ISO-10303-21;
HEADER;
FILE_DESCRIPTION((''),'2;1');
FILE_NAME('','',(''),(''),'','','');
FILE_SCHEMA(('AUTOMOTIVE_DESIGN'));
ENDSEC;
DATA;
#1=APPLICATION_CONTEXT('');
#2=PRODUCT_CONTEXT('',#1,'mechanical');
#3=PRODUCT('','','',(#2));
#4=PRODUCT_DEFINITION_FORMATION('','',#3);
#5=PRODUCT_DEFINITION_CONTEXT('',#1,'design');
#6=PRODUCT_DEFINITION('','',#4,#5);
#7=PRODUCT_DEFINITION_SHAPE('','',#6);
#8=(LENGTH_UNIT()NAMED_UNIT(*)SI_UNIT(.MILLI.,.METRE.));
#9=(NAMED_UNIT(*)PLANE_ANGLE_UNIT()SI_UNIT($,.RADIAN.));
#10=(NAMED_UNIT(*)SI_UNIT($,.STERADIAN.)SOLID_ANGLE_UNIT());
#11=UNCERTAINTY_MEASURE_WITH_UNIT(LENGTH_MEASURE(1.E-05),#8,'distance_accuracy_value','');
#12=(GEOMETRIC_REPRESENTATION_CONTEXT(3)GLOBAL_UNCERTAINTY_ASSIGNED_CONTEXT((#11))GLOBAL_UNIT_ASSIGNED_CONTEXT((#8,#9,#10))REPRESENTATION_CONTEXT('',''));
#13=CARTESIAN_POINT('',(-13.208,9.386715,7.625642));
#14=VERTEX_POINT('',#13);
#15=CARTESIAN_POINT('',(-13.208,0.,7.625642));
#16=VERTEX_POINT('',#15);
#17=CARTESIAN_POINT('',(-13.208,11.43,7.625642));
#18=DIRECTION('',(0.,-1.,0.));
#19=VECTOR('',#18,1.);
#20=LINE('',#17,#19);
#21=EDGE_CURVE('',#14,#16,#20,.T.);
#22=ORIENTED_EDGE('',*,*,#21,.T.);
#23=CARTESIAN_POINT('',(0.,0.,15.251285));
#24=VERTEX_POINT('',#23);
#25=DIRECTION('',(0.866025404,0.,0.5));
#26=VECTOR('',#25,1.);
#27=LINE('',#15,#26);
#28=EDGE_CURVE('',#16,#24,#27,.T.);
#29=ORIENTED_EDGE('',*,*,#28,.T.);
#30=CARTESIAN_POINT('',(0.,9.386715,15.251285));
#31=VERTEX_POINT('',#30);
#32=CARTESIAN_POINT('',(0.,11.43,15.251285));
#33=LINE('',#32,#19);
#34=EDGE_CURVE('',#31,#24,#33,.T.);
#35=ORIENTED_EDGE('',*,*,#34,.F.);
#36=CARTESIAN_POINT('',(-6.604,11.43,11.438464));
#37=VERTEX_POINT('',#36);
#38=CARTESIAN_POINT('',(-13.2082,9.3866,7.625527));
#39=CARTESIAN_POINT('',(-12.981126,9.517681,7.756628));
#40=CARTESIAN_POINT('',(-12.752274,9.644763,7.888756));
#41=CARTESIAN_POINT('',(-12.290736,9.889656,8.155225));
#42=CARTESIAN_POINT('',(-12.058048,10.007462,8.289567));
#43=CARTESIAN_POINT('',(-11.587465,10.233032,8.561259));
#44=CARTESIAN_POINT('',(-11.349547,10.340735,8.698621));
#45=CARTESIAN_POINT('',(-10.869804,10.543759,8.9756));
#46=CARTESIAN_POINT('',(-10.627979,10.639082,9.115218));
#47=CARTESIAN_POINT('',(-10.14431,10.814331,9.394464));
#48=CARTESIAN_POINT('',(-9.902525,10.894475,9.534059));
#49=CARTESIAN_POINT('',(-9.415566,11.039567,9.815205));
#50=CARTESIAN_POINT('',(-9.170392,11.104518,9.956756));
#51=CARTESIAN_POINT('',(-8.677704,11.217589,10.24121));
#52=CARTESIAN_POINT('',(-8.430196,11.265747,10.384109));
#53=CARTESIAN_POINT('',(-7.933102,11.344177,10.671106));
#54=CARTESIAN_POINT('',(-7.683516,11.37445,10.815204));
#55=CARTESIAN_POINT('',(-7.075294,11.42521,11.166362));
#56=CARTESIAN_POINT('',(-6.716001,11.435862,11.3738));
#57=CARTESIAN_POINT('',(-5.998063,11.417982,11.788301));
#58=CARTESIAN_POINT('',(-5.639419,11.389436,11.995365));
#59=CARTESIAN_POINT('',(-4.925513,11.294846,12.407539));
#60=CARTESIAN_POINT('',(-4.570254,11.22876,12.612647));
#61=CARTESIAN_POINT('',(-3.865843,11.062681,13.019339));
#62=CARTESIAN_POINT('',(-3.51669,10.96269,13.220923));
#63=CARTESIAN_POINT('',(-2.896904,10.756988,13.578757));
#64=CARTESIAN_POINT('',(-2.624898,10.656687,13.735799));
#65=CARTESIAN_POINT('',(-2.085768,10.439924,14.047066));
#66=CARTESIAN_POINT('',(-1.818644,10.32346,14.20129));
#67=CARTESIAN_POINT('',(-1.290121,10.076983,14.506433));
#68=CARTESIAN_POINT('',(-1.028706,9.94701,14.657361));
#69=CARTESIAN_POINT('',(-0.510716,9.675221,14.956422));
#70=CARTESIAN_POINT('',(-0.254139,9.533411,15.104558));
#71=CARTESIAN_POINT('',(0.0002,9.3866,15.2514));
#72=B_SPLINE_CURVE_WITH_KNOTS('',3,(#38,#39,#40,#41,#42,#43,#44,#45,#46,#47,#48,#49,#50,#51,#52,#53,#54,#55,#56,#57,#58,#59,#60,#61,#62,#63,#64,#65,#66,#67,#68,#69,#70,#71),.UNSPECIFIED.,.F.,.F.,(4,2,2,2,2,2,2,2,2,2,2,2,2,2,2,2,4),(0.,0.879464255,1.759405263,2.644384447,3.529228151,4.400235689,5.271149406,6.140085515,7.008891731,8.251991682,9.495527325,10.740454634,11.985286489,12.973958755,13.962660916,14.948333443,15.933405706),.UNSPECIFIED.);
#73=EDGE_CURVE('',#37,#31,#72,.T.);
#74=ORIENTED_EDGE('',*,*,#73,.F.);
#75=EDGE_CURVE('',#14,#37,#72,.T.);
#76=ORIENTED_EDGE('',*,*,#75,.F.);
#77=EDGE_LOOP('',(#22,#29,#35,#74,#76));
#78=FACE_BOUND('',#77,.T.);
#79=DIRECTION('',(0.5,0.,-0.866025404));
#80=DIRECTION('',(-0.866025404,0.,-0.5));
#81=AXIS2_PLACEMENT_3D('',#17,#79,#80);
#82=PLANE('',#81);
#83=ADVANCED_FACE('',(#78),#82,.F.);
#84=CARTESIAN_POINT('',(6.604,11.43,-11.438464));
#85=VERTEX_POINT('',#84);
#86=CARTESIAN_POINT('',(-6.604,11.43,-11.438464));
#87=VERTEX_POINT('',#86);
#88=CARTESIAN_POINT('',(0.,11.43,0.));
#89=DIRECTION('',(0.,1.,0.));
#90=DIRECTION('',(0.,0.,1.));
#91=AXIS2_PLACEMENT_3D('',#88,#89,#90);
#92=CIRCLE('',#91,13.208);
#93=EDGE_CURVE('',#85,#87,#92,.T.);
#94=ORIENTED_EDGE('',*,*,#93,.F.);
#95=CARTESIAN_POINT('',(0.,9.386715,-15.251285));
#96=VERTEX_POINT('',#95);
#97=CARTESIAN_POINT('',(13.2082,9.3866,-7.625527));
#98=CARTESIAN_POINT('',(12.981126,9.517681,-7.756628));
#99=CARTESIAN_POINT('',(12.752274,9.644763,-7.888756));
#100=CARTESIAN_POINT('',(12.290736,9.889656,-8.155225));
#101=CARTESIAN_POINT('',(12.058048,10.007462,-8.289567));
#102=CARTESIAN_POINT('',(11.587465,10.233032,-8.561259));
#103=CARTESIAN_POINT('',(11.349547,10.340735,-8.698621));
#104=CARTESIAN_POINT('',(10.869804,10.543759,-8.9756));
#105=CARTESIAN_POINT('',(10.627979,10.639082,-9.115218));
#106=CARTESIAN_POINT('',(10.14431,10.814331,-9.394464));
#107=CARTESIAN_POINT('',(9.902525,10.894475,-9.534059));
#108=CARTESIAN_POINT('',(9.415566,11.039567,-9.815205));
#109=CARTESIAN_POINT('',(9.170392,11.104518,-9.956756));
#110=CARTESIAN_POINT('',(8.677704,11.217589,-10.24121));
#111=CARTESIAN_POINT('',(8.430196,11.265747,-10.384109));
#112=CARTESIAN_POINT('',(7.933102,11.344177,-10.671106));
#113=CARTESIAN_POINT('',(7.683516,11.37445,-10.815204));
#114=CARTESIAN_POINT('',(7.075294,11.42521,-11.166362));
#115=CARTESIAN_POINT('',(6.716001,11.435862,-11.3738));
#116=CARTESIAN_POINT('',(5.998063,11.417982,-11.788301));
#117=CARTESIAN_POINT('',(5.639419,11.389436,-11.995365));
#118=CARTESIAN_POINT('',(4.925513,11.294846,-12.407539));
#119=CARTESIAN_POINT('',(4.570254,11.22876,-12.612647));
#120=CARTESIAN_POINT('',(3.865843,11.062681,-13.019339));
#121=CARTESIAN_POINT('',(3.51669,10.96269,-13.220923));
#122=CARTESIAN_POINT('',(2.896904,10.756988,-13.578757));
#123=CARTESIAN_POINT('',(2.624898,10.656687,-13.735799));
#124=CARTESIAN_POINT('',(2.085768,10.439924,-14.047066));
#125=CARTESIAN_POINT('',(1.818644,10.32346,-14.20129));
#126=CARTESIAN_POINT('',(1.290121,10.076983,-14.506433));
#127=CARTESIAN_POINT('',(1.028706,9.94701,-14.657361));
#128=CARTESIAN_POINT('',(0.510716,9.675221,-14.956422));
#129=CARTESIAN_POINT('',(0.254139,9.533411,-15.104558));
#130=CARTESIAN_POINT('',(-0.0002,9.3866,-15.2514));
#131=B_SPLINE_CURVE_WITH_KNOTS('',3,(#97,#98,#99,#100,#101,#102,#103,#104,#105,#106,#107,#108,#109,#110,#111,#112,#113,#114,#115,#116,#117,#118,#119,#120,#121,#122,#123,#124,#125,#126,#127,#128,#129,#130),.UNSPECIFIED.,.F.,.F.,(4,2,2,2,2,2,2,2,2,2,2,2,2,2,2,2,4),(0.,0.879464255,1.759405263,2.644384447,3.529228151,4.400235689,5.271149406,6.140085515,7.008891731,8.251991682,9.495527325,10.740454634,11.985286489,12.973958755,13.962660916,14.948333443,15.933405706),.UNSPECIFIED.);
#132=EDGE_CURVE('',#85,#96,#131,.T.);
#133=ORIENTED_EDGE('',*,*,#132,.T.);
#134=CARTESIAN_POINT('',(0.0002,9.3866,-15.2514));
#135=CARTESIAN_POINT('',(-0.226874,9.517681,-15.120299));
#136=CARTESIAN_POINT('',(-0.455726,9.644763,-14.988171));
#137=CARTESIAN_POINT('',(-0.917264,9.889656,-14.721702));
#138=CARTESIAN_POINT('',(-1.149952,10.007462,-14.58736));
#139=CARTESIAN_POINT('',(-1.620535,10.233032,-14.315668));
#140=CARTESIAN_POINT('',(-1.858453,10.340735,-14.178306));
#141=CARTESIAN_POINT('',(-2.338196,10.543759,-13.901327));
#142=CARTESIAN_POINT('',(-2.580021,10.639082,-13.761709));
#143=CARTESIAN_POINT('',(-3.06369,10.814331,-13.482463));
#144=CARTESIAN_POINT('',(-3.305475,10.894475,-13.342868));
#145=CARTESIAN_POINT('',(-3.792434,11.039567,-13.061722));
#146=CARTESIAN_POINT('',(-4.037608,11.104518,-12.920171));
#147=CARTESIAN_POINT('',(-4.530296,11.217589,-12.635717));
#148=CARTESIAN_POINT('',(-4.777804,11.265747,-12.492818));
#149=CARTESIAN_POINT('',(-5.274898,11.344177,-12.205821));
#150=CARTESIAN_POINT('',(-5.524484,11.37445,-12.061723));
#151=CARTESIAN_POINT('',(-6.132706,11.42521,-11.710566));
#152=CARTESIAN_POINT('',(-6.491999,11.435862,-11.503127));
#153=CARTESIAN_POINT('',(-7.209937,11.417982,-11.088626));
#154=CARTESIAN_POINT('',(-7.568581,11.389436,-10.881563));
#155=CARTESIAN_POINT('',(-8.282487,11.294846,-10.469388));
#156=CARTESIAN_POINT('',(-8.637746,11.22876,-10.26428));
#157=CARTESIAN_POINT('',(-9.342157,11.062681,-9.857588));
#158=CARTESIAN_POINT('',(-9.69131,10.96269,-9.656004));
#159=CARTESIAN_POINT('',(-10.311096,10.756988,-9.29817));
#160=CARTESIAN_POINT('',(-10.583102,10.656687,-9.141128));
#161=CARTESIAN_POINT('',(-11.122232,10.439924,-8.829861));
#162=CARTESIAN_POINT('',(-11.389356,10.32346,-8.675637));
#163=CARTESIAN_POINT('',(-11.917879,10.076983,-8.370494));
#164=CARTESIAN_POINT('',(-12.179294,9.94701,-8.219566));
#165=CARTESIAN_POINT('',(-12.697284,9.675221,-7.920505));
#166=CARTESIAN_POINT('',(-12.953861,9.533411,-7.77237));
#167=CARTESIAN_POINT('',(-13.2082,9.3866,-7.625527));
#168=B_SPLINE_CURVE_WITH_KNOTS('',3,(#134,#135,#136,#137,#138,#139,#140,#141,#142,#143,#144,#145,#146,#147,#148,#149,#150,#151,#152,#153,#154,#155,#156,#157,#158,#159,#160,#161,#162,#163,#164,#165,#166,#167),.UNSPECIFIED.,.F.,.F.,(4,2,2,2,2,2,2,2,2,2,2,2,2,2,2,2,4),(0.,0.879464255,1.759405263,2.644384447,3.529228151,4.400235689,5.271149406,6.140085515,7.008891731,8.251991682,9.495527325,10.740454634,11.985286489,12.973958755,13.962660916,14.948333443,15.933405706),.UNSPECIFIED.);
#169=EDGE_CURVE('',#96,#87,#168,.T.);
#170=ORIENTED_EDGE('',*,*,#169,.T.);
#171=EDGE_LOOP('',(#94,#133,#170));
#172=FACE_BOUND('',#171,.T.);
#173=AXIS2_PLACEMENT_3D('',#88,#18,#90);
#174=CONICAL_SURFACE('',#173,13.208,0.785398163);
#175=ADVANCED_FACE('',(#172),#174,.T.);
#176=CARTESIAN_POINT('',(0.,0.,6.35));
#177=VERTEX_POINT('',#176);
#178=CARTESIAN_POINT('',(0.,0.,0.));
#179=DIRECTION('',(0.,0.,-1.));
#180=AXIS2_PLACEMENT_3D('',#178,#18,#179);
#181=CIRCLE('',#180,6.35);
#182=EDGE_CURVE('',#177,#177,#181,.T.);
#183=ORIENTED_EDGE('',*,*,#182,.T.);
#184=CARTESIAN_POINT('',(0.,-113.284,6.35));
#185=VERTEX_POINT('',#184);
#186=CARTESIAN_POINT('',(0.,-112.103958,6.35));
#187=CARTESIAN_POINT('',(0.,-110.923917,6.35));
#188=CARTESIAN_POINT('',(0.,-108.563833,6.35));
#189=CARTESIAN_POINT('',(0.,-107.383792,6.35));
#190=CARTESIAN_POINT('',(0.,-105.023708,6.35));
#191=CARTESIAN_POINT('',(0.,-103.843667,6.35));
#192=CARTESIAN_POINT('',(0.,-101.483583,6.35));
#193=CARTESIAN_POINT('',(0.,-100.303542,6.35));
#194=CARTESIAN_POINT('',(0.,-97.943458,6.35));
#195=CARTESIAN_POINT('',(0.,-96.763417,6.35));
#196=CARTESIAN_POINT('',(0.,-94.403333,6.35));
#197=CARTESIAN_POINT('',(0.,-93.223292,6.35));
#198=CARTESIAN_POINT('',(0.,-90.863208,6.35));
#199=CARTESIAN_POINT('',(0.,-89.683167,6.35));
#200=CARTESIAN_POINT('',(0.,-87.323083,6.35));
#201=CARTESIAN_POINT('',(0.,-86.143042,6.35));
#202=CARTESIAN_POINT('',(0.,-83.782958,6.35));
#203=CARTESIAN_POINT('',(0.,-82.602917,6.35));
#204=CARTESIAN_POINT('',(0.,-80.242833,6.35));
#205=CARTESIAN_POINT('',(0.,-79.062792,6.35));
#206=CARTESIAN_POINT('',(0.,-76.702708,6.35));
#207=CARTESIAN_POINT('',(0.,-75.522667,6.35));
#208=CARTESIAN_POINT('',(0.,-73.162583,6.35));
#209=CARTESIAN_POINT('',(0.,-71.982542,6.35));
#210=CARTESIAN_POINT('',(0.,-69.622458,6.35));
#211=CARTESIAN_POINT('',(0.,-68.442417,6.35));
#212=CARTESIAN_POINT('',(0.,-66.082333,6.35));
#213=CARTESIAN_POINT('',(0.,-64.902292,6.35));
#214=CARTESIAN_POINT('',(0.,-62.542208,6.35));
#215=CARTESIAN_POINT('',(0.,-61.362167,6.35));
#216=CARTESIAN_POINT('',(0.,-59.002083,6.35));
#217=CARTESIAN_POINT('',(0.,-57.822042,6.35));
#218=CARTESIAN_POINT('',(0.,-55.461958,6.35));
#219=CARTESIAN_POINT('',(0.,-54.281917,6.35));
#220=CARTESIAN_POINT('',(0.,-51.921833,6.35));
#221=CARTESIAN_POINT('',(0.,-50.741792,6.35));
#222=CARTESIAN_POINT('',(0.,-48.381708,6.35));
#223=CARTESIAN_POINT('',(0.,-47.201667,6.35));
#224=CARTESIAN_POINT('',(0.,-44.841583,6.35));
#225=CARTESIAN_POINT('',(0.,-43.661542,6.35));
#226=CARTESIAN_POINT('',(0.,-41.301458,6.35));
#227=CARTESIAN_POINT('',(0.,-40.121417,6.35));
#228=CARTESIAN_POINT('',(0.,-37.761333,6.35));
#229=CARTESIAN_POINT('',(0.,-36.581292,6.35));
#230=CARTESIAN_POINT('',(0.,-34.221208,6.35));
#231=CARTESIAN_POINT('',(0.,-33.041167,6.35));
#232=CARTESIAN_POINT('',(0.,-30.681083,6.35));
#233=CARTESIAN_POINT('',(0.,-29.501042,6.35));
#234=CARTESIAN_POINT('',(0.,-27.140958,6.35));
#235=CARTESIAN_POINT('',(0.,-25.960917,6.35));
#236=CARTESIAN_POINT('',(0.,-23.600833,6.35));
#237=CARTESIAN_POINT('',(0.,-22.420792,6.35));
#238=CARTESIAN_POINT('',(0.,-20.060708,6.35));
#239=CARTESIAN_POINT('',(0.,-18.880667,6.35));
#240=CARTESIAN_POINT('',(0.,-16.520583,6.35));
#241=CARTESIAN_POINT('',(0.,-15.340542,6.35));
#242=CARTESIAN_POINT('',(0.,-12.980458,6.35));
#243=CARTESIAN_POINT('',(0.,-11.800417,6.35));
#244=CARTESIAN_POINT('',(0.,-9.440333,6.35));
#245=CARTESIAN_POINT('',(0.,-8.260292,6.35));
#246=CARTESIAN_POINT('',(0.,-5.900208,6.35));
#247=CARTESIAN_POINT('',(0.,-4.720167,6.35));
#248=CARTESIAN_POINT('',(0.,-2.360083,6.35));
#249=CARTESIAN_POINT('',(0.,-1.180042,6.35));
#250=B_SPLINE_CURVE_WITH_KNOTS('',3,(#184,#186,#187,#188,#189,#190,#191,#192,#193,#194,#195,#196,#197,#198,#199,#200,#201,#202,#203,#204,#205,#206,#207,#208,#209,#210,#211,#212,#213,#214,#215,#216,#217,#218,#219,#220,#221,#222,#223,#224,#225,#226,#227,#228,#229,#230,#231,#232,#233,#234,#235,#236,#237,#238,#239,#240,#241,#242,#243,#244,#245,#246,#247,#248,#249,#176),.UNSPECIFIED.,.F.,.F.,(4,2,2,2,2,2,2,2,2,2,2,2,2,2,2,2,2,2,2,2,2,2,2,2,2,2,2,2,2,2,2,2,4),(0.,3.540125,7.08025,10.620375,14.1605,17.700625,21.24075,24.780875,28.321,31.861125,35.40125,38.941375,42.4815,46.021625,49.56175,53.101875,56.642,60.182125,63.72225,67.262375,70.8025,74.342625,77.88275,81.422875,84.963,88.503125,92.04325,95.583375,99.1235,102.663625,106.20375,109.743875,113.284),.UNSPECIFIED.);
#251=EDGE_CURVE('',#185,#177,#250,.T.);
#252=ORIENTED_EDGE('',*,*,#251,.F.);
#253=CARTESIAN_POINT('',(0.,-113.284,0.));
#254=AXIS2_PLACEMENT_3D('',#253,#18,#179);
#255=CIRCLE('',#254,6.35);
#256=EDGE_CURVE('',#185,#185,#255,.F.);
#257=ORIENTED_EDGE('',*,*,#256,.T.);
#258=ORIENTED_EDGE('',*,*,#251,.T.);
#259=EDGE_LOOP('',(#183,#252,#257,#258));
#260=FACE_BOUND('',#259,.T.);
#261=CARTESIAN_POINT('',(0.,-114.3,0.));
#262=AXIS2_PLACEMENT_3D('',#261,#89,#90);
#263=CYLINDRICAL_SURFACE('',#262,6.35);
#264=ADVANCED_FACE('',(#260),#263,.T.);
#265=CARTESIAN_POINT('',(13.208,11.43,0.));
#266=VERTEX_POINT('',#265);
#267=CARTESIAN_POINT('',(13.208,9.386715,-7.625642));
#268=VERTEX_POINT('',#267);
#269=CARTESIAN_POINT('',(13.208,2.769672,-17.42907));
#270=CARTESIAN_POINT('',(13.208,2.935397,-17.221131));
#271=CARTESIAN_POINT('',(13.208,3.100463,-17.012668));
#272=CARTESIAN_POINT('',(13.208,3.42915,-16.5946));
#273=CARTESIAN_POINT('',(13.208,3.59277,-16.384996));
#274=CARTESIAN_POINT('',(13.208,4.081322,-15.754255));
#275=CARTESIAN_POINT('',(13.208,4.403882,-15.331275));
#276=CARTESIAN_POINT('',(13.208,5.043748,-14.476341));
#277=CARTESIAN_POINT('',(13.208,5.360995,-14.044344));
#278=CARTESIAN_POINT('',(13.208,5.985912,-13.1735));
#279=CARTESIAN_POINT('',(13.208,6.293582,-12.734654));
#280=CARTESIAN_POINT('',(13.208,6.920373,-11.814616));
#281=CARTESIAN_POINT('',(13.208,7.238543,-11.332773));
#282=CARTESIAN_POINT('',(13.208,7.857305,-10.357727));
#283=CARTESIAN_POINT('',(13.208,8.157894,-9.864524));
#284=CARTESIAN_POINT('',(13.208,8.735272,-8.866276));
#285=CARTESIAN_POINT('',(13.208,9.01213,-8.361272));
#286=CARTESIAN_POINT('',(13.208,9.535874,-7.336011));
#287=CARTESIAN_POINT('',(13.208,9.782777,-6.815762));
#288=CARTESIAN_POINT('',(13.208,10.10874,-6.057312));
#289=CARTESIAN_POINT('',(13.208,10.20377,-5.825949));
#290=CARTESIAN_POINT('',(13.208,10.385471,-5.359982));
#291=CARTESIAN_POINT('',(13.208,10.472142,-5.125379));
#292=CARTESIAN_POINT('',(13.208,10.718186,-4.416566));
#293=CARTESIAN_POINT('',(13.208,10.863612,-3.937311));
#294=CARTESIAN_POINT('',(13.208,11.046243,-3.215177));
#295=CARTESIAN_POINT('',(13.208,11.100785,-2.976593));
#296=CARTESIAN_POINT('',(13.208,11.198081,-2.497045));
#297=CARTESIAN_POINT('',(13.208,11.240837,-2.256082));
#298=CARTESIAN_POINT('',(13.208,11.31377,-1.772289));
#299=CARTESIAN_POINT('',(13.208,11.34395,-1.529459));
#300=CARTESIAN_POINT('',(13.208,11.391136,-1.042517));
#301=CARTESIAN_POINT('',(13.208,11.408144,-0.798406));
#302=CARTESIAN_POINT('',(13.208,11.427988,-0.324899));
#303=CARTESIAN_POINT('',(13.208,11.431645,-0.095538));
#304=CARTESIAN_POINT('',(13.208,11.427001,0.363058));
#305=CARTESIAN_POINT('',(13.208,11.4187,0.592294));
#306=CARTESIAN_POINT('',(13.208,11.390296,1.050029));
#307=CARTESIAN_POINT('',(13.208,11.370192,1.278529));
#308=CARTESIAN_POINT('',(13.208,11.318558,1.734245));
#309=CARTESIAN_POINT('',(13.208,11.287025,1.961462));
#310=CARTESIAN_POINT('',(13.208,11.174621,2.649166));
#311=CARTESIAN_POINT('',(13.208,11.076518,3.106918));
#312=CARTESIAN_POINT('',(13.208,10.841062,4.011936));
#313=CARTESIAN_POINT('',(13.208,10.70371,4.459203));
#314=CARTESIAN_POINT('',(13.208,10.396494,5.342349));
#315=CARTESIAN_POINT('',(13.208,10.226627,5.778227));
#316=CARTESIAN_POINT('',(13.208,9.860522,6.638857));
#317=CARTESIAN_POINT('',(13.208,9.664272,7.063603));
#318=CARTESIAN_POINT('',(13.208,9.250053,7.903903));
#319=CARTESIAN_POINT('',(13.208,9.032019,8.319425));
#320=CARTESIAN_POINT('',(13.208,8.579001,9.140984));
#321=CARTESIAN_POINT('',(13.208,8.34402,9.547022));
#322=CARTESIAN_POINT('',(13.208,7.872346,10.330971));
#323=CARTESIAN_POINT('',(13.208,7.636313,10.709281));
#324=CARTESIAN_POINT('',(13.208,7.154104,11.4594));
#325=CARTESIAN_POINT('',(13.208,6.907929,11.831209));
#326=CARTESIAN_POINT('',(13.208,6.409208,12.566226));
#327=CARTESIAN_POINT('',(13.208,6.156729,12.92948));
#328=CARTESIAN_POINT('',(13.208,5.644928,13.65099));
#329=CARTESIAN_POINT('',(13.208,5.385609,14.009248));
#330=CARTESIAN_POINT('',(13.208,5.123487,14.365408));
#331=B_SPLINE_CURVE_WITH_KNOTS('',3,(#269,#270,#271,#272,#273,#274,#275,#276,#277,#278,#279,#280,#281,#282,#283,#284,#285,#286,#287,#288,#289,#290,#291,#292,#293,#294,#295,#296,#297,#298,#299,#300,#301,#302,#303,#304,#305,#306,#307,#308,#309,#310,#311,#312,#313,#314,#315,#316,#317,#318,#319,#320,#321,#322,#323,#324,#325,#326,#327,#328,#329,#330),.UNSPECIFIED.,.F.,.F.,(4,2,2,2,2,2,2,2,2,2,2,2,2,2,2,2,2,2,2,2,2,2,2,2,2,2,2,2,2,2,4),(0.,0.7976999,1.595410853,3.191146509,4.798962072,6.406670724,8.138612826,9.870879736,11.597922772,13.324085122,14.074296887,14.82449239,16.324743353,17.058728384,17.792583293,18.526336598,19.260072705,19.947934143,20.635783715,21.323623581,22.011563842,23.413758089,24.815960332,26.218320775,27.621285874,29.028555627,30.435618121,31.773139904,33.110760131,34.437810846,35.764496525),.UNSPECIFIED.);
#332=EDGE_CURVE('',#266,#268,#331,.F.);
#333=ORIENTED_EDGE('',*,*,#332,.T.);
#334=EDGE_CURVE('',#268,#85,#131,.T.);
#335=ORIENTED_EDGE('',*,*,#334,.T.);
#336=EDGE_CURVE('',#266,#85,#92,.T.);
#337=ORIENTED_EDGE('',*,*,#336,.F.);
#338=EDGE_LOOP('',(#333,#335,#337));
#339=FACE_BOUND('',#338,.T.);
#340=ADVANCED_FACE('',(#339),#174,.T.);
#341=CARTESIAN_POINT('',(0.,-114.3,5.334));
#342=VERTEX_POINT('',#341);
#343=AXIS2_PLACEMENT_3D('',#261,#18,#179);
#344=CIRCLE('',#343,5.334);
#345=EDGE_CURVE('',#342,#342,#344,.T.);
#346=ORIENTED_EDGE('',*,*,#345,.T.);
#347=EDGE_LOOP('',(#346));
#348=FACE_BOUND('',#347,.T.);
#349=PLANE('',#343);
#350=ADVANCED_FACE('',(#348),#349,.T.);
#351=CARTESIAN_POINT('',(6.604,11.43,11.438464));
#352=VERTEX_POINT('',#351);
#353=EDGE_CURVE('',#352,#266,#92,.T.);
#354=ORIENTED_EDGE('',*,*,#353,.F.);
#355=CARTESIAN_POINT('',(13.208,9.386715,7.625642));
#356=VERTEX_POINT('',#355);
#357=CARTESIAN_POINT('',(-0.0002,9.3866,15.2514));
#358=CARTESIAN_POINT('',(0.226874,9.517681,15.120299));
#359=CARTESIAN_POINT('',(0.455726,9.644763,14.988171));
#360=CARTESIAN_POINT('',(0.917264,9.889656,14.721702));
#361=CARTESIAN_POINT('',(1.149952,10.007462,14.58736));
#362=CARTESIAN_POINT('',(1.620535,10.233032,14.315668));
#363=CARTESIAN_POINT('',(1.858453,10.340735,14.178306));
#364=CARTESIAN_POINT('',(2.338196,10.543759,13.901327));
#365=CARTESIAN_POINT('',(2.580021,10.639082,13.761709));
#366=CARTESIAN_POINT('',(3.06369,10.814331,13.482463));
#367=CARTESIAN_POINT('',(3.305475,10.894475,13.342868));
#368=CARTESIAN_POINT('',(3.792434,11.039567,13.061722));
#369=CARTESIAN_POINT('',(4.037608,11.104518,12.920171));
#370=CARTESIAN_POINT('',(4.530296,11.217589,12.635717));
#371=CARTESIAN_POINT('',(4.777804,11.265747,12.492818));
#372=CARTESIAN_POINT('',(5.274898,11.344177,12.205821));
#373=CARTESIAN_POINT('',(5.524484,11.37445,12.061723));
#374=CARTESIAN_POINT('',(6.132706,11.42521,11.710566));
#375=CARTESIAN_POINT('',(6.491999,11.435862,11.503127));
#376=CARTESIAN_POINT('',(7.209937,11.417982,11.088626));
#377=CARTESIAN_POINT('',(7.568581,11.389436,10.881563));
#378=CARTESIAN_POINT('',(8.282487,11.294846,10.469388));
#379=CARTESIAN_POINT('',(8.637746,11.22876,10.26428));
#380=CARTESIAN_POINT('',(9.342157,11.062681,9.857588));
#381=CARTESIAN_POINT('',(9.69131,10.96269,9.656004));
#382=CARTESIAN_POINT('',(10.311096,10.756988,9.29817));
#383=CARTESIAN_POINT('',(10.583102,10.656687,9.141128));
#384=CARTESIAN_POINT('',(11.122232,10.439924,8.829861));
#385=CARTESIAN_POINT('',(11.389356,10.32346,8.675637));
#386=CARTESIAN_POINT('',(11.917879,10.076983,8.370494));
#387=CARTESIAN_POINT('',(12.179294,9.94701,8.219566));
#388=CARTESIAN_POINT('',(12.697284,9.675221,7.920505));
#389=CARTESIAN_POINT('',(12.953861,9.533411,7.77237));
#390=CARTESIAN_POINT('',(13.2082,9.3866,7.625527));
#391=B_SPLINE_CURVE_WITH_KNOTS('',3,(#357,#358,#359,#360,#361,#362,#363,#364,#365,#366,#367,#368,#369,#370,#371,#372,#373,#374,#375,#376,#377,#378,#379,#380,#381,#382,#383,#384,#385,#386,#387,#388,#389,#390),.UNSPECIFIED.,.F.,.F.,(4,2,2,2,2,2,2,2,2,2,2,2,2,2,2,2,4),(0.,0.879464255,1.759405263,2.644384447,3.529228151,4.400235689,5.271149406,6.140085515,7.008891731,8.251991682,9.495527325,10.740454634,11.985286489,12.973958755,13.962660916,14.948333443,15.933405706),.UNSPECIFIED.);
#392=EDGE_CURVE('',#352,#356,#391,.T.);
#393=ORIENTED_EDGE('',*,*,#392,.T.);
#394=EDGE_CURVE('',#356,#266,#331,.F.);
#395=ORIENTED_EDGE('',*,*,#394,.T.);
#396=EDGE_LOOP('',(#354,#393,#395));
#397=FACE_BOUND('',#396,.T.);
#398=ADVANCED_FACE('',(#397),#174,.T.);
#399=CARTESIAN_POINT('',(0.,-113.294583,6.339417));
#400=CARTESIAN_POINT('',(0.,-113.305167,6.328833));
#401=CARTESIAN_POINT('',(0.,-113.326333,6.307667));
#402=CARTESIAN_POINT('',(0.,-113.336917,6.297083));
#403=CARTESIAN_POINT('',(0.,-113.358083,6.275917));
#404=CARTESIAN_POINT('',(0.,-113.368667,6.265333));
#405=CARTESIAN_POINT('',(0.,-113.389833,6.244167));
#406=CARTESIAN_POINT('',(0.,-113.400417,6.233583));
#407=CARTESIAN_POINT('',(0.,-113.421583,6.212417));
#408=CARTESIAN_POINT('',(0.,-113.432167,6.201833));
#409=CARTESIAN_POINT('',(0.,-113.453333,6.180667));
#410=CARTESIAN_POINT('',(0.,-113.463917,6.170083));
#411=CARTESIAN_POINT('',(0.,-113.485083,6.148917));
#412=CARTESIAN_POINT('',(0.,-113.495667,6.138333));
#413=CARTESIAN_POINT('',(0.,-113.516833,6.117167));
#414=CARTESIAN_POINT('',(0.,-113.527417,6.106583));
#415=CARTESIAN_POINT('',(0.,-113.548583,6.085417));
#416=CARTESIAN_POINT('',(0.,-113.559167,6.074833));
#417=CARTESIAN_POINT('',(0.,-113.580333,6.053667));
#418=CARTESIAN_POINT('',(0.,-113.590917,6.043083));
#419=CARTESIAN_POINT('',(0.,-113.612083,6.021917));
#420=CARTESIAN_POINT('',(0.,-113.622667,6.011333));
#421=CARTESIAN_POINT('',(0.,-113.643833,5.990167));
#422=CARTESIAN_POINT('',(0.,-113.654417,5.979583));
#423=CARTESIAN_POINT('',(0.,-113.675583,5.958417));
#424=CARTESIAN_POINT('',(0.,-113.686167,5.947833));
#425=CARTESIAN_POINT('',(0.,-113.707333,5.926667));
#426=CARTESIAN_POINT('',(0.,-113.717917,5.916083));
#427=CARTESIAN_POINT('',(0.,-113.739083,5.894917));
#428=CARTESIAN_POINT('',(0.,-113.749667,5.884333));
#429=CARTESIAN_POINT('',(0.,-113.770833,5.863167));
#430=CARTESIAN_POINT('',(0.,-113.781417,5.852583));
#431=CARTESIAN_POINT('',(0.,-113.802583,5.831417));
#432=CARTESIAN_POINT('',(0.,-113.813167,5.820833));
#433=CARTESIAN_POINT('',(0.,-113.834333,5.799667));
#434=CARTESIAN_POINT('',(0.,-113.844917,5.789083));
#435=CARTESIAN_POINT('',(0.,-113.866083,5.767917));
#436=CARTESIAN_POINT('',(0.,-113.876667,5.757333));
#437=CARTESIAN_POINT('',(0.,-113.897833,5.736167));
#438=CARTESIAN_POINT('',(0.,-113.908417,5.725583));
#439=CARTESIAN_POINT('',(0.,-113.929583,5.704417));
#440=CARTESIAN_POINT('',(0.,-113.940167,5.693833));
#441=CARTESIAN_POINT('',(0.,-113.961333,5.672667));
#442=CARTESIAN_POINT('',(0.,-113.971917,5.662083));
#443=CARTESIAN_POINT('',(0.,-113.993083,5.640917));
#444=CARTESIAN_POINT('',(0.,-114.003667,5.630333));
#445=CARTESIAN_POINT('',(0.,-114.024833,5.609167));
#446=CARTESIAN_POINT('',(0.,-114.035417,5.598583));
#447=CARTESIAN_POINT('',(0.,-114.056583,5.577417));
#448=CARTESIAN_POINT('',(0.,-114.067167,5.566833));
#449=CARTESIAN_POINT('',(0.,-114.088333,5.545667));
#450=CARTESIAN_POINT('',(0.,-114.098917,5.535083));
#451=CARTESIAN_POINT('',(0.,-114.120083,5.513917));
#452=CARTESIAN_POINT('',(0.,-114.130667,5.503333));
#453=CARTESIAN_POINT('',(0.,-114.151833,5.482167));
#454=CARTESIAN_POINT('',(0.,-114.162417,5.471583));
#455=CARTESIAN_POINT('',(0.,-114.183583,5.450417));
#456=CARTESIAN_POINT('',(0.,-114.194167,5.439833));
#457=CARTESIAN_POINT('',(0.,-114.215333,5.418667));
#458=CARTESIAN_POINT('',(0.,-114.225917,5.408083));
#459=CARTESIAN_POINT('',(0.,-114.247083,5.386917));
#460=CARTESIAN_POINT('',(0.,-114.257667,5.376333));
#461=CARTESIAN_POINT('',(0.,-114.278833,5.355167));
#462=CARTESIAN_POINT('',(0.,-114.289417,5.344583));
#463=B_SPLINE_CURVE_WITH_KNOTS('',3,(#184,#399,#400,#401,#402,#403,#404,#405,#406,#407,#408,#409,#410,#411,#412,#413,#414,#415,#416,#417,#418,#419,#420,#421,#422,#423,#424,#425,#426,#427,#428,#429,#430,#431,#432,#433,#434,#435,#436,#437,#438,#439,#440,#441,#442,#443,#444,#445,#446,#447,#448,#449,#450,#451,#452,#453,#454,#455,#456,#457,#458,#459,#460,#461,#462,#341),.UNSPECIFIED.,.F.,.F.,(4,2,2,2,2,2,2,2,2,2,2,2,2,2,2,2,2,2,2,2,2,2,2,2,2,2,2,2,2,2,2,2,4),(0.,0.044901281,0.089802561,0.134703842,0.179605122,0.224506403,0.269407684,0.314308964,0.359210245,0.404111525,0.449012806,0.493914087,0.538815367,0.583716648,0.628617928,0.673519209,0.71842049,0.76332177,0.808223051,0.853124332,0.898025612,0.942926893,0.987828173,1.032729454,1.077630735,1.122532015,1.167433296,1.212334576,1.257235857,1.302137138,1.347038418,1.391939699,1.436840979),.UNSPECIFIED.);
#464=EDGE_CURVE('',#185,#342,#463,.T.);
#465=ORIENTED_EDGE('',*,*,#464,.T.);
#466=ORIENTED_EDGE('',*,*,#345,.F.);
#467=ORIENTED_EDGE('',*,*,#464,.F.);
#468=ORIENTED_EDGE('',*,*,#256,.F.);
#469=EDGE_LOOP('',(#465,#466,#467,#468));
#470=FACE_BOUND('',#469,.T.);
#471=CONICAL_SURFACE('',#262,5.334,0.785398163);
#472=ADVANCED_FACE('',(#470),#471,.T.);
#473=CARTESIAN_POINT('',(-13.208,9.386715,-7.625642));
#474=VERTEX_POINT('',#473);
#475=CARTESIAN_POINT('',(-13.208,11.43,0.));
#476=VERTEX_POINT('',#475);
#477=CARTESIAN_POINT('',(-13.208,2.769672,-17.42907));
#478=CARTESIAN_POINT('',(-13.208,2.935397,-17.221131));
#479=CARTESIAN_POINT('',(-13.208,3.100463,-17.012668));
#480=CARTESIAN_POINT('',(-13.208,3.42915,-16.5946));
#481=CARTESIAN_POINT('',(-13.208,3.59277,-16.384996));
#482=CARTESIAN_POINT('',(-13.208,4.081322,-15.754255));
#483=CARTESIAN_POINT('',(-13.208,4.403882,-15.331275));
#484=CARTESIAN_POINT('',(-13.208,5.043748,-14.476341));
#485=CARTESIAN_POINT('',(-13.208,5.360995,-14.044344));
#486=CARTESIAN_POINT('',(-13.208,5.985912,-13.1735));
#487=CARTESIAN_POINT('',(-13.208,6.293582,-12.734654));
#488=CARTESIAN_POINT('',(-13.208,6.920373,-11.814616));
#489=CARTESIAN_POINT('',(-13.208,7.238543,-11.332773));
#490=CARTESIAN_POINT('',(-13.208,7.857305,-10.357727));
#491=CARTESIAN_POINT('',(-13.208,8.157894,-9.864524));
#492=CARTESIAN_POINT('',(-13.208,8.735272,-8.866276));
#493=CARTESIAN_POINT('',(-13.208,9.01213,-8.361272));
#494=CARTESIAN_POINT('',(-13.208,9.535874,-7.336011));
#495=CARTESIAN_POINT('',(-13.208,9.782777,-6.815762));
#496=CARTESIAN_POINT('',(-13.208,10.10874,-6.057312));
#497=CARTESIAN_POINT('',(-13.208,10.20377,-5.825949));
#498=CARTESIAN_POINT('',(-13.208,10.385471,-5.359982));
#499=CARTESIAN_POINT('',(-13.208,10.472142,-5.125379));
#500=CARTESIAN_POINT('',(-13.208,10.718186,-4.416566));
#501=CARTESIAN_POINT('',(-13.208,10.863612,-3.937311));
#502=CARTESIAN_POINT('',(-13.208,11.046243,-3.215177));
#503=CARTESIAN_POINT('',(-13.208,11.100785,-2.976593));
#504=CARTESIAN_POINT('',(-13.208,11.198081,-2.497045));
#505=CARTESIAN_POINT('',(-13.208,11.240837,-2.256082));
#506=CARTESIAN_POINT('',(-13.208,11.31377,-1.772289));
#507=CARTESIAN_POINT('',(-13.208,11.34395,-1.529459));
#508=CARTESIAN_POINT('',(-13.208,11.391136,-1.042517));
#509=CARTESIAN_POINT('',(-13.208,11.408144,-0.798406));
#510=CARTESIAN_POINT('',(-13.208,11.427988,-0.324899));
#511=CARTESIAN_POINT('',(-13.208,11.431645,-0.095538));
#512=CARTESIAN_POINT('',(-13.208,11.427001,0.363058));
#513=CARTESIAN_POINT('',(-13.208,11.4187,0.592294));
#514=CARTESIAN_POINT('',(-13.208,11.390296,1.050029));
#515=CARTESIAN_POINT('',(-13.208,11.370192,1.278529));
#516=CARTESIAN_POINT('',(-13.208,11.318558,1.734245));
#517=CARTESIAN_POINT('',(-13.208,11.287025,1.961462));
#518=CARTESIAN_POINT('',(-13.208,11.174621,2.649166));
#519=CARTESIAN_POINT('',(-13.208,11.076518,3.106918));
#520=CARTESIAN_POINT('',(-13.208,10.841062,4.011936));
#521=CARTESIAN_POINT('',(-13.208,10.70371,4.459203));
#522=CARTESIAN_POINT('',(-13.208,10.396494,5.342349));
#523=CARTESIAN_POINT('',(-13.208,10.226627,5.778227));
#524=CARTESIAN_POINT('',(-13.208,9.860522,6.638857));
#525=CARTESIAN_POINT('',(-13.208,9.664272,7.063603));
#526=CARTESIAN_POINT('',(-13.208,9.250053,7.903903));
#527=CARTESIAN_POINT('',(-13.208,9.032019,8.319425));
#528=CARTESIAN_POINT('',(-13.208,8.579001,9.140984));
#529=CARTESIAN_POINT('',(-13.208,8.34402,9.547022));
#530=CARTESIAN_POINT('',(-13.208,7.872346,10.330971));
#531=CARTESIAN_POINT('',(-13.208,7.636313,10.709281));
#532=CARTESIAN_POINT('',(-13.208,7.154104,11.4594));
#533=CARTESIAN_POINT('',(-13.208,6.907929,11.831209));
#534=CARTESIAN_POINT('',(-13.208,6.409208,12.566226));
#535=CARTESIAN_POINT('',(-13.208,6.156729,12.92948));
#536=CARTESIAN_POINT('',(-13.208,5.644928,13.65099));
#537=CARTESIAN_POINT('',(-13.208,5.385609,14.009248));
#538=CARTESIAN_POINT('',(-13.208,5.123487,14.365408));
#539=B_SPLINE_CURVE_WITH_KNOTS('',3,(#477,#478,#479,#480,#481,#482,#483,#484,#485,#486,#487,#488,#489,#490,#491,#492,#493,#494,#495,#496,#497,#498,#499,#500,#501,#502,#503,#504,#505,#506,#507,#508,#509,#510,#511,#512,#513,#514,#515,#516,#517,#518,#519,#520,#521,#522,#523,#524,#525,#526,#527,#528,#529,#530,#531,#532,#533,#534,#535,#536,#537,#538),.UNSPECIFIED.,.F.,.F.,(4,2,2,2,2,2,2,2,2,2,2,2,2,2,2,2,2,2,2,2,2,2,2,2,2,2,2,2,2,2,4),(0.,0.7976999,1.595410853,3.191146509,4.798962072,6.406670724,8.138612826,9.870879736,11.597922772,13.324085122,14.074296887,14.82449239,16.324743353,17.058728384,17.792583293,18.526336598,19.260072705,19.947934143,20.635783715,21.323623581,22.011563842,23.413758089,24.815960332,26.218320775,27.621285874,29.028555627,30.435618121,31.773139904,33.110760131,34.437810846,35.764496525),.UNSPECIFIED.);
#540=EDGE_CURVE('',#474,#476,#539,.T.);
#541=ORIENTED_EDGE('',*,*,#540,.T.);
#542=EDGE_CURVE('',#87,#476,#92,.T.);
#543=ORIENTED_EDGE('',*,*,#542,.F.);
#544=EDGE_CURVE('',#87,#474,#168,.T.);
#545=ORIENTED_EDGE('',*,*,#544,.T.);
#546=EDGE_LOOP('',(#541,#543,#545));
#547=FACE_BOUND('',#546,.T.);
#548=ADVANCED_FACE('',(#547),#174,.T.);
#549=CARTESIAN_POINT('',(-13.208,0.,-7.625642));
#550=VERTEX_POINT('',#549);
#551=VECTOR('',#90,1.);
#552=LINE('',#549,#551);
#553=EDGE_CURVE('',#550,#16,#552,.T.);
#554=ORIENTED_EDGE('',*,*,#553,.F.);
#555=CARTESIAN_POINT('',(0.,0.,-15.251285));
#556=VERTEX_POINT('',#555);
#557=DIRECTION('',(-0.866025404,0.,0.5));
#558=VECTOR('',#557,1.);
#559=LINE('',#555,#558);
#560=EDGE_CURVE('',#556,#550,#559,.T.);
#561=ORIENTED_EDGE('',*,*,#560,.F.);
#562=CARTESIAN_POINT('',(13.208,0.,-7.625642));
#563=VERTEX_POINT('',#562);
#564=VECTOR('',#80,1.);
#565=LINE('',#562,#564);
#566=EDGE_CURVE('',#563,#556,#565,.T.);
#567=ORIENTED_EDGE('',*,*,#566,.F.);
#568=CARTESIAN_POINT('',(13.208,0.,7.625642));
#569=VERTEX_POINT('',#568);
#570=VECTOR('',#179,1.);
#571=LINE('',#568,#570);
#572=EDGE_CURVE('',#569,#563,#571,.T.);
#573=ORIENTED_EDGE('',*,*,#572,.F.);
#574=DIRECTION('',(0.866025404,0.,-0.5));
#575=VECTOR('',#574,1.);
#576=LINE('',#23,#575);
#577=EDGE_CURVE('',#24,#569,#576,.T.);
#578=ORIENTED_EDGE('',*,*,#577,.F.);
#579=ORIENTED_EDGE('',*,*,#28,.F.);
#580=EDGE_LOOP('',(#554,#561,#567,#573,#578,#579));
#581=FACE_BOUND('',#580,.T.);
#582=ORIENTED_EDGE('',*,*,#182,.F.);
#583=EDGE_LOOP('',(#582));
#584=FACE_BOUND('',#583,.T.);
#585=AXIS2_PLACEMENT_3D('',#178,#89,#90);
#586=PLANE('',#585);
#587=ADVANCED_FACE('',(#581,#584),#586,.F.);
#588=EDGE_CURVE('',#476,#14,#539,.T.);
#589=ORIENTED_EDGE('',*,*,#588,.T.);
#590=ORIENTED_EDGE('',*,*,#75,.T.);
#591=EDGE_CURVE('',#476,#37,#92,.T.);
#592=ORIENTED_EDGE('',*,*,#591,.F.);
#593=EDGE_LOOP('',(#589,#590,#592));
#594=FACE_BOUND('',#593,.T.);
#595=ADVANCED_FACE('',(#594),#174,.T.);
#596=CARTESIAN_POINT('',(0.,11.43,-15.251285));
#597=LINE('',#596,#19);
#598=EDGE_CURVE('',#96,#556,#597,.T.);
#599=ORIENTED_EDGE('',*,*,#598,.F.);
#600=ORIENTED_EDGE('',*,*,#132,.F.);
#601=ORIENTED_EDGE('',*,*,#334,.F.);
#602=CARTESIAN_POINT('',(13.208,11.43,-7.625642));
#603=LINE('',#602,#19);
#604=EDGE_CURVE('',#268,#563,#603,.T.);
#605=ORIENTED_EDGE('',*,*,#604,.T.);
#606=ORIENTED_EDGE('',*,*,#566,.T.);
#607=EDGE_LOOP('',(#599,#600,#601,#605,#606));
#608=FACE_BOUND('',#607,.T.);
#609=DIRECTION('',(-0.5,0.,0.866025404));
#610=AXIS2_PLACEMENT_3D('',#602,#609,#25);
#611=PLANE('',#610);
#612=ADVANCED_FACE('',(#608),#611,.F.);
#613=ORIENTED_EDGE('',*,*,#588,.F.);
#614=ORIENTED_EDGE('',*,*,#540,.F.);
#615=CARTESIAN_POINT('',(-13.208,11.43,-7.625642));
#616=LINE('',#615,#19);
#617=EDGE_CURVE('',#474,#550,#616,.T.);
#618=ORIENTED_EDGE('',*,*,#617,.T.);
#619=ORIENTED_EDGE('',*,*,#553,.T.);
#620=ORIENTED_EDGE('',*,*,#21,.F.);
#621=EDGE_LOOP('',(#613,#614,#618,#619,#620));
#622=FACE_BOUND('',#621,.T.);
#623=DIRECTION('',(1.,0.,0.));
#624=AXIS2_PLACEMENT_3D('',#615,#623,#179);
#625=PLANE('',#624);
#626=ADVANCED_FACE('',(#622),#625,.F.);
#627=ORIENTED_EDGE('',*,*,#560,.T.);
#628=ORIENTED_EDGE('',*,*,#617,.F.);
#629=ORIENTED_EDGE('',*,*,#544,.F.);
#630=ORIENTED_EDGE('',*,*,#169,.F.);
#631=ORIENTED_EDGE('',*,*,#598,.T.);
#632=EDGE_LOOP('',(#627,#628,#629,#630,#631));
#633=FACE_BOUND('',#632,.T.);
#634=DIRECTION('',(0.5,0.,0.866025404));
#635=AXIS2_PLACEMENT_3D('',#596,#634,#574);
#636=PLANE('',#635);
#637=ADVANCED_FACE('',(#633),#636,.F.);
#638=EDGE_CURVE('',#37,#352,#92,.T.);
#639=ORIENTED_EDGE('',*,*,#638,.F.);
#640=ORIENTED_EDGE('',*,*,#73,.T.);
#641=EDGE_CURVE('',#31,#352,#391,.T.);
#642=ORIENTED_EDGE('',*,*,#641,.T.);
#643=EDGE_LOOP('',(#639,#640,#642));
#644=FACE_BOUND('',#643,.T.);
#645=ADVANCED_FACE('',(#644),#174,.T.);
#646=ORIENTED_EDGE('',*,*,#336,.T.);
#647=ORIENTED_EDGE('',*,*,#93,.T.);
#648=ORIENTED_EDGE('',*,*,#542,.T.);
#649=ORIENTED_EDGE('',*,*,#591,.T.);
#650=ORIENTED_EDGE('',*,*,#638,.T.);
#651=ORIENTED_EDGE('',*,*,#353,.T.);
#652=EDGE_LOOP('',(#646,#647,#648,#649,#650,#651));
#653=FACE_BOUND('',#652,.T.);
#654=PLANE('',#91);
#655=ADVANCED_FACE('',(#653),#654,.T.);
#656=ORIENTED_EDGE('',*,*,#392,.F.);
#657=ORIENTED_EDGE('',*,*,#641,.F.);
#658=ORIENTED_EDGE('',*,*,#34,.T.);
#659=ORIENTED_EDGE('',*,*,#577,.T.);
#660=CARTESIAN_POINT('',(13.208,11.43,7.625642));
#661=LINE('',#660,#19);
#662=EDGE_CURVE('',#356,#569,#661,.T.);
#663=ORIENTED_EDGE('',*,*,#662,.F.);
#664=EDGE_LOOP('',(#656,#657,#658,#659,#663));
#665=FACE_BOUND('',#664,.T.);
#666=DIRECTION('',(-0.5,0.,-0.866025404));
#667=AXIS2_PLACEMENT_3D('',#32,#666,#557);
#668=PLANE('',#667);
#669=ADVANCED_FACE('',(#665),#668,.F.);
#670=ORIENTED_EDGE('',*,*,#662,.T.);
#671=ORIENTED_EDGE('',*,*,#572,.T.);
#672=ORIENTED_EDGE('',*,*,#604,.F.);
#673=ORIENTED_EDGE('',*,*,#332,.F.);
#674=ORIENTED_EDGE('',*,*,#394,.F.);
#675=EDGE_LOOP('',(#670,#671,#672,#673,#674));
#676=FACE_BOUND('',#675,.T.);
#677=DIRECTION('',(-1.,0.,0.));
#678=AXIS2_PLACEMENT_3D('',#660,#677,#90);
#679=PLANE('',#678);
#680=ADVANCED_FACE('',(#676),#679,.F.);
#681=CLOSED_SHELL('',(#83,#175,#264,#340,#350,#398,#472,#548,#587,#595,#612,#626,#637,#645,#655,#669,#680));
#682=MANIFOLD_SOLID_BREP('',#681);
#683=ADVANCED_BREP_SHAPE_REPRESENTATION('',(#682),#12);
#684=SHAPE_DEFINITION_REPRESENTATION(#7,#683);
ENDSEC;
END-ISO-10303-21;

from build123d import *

# Parameters (mm, degrees)
BOSS_EXTRUDE2_DEPTH = 11.43
SKETCH7_OUTSIDE_W   = 59.664
SKETCH7_OUTSIDE_H   = 63.75
SKETCH7_OUTSIDE_R   = 13.208
CUT_EXTRUDE1_DEPTH  = 11.43
CUT_EXTRUDE1_DRAFT  = -45
SKETCH9_R           = 6.35
BOSS_EXTRUDE6_DEPTH = 114.3
CHAMFER3_SIZE       = 1.016


with BuildPart() as part:
    # Sketch5 → Boss-Extrude2 (new body)
    with BuildSketch(Plane(origin=(0, 0, 0), x_dir=(1, 0, 0), z_dir=(0, 1, 0))):
        Polygon((13.208, -7.625642355), (13.208, 7.625642355), (0, 15.251284711), (-13.208, 7.625642355), (-13.208, -7.625642355), (0, -15.251284711), align=None)
    extrude(amount=BOSS_EXTRUDE2_DEPTH)


with BuildPart() as cut_extrude1_tool:
    # Sketch7 outside → Cut-Extrude1 (with draft: the straight prism first)
    with BuildSketch(Plane(origin=(0, 11.43, 0), x_dir=(1, 0, 0), z_dir=(0, 1, 0))):
        Rectangle(SKETCH7_OUTSIDE_W, SKETCH7_OUTSIDE_H)
        Circle(SKETCH7_OUTSIDE_R, mode=Mode.SUBTRACT)
    extrude(amount=-CUT_EXTRUDE1_DEPTH)
    # Cut-Extrude1: the draft: its side faces are tilted about the plane it starts from
    cut_extrude1_sides = [cut_extrude1_tool.faces().sort_by_distance(p)[0] for p in [
        (0, 5.715, 31.875),
        (29.832, 5.715, 0),
        (0, 5.715, -31.875),
        (-29.832, 5.715, 0),
        (-13.208, 5.715, 0),
    ]]
    draft(cut_extrude1_sides, Plane(origin=(0, 11.43, 0), x_dir=(1, 0, 0), z_dir=(0, 1, 0)), CUT_EXTRUDE1_DRAFT)


with BuildPart() as part_1:
    add(part.part)

    # Cut-Extrude1: cut by cut_extrude1_tool
    add(cut_extrude1_tool.part, mode=Mode.SUBTRACT)

    # Sketch9 → Boss-Extrude6 (add)
    with BuildSketch(Plane(origin=(0, 0, 0), x_dir=(-1, 0, 0), z_dir=(0, -1, 0))):
        with Locations(Location((0, 0, 0), (0, 0, 90))):
            Circle(SKETCH9_R)
    extrude(amount=BOSS_EXTRUDE6_DEPTH)

    # Chamfer3
    chamfer3_edges = [part_1.edges().sort_by_distance(p)[0] for p in [
        (0, -114.3, 6.35),
    ]]
    chamfer(chamfer3_edges, length=CHAMFER3_SIZE)


solid = part_1.part
